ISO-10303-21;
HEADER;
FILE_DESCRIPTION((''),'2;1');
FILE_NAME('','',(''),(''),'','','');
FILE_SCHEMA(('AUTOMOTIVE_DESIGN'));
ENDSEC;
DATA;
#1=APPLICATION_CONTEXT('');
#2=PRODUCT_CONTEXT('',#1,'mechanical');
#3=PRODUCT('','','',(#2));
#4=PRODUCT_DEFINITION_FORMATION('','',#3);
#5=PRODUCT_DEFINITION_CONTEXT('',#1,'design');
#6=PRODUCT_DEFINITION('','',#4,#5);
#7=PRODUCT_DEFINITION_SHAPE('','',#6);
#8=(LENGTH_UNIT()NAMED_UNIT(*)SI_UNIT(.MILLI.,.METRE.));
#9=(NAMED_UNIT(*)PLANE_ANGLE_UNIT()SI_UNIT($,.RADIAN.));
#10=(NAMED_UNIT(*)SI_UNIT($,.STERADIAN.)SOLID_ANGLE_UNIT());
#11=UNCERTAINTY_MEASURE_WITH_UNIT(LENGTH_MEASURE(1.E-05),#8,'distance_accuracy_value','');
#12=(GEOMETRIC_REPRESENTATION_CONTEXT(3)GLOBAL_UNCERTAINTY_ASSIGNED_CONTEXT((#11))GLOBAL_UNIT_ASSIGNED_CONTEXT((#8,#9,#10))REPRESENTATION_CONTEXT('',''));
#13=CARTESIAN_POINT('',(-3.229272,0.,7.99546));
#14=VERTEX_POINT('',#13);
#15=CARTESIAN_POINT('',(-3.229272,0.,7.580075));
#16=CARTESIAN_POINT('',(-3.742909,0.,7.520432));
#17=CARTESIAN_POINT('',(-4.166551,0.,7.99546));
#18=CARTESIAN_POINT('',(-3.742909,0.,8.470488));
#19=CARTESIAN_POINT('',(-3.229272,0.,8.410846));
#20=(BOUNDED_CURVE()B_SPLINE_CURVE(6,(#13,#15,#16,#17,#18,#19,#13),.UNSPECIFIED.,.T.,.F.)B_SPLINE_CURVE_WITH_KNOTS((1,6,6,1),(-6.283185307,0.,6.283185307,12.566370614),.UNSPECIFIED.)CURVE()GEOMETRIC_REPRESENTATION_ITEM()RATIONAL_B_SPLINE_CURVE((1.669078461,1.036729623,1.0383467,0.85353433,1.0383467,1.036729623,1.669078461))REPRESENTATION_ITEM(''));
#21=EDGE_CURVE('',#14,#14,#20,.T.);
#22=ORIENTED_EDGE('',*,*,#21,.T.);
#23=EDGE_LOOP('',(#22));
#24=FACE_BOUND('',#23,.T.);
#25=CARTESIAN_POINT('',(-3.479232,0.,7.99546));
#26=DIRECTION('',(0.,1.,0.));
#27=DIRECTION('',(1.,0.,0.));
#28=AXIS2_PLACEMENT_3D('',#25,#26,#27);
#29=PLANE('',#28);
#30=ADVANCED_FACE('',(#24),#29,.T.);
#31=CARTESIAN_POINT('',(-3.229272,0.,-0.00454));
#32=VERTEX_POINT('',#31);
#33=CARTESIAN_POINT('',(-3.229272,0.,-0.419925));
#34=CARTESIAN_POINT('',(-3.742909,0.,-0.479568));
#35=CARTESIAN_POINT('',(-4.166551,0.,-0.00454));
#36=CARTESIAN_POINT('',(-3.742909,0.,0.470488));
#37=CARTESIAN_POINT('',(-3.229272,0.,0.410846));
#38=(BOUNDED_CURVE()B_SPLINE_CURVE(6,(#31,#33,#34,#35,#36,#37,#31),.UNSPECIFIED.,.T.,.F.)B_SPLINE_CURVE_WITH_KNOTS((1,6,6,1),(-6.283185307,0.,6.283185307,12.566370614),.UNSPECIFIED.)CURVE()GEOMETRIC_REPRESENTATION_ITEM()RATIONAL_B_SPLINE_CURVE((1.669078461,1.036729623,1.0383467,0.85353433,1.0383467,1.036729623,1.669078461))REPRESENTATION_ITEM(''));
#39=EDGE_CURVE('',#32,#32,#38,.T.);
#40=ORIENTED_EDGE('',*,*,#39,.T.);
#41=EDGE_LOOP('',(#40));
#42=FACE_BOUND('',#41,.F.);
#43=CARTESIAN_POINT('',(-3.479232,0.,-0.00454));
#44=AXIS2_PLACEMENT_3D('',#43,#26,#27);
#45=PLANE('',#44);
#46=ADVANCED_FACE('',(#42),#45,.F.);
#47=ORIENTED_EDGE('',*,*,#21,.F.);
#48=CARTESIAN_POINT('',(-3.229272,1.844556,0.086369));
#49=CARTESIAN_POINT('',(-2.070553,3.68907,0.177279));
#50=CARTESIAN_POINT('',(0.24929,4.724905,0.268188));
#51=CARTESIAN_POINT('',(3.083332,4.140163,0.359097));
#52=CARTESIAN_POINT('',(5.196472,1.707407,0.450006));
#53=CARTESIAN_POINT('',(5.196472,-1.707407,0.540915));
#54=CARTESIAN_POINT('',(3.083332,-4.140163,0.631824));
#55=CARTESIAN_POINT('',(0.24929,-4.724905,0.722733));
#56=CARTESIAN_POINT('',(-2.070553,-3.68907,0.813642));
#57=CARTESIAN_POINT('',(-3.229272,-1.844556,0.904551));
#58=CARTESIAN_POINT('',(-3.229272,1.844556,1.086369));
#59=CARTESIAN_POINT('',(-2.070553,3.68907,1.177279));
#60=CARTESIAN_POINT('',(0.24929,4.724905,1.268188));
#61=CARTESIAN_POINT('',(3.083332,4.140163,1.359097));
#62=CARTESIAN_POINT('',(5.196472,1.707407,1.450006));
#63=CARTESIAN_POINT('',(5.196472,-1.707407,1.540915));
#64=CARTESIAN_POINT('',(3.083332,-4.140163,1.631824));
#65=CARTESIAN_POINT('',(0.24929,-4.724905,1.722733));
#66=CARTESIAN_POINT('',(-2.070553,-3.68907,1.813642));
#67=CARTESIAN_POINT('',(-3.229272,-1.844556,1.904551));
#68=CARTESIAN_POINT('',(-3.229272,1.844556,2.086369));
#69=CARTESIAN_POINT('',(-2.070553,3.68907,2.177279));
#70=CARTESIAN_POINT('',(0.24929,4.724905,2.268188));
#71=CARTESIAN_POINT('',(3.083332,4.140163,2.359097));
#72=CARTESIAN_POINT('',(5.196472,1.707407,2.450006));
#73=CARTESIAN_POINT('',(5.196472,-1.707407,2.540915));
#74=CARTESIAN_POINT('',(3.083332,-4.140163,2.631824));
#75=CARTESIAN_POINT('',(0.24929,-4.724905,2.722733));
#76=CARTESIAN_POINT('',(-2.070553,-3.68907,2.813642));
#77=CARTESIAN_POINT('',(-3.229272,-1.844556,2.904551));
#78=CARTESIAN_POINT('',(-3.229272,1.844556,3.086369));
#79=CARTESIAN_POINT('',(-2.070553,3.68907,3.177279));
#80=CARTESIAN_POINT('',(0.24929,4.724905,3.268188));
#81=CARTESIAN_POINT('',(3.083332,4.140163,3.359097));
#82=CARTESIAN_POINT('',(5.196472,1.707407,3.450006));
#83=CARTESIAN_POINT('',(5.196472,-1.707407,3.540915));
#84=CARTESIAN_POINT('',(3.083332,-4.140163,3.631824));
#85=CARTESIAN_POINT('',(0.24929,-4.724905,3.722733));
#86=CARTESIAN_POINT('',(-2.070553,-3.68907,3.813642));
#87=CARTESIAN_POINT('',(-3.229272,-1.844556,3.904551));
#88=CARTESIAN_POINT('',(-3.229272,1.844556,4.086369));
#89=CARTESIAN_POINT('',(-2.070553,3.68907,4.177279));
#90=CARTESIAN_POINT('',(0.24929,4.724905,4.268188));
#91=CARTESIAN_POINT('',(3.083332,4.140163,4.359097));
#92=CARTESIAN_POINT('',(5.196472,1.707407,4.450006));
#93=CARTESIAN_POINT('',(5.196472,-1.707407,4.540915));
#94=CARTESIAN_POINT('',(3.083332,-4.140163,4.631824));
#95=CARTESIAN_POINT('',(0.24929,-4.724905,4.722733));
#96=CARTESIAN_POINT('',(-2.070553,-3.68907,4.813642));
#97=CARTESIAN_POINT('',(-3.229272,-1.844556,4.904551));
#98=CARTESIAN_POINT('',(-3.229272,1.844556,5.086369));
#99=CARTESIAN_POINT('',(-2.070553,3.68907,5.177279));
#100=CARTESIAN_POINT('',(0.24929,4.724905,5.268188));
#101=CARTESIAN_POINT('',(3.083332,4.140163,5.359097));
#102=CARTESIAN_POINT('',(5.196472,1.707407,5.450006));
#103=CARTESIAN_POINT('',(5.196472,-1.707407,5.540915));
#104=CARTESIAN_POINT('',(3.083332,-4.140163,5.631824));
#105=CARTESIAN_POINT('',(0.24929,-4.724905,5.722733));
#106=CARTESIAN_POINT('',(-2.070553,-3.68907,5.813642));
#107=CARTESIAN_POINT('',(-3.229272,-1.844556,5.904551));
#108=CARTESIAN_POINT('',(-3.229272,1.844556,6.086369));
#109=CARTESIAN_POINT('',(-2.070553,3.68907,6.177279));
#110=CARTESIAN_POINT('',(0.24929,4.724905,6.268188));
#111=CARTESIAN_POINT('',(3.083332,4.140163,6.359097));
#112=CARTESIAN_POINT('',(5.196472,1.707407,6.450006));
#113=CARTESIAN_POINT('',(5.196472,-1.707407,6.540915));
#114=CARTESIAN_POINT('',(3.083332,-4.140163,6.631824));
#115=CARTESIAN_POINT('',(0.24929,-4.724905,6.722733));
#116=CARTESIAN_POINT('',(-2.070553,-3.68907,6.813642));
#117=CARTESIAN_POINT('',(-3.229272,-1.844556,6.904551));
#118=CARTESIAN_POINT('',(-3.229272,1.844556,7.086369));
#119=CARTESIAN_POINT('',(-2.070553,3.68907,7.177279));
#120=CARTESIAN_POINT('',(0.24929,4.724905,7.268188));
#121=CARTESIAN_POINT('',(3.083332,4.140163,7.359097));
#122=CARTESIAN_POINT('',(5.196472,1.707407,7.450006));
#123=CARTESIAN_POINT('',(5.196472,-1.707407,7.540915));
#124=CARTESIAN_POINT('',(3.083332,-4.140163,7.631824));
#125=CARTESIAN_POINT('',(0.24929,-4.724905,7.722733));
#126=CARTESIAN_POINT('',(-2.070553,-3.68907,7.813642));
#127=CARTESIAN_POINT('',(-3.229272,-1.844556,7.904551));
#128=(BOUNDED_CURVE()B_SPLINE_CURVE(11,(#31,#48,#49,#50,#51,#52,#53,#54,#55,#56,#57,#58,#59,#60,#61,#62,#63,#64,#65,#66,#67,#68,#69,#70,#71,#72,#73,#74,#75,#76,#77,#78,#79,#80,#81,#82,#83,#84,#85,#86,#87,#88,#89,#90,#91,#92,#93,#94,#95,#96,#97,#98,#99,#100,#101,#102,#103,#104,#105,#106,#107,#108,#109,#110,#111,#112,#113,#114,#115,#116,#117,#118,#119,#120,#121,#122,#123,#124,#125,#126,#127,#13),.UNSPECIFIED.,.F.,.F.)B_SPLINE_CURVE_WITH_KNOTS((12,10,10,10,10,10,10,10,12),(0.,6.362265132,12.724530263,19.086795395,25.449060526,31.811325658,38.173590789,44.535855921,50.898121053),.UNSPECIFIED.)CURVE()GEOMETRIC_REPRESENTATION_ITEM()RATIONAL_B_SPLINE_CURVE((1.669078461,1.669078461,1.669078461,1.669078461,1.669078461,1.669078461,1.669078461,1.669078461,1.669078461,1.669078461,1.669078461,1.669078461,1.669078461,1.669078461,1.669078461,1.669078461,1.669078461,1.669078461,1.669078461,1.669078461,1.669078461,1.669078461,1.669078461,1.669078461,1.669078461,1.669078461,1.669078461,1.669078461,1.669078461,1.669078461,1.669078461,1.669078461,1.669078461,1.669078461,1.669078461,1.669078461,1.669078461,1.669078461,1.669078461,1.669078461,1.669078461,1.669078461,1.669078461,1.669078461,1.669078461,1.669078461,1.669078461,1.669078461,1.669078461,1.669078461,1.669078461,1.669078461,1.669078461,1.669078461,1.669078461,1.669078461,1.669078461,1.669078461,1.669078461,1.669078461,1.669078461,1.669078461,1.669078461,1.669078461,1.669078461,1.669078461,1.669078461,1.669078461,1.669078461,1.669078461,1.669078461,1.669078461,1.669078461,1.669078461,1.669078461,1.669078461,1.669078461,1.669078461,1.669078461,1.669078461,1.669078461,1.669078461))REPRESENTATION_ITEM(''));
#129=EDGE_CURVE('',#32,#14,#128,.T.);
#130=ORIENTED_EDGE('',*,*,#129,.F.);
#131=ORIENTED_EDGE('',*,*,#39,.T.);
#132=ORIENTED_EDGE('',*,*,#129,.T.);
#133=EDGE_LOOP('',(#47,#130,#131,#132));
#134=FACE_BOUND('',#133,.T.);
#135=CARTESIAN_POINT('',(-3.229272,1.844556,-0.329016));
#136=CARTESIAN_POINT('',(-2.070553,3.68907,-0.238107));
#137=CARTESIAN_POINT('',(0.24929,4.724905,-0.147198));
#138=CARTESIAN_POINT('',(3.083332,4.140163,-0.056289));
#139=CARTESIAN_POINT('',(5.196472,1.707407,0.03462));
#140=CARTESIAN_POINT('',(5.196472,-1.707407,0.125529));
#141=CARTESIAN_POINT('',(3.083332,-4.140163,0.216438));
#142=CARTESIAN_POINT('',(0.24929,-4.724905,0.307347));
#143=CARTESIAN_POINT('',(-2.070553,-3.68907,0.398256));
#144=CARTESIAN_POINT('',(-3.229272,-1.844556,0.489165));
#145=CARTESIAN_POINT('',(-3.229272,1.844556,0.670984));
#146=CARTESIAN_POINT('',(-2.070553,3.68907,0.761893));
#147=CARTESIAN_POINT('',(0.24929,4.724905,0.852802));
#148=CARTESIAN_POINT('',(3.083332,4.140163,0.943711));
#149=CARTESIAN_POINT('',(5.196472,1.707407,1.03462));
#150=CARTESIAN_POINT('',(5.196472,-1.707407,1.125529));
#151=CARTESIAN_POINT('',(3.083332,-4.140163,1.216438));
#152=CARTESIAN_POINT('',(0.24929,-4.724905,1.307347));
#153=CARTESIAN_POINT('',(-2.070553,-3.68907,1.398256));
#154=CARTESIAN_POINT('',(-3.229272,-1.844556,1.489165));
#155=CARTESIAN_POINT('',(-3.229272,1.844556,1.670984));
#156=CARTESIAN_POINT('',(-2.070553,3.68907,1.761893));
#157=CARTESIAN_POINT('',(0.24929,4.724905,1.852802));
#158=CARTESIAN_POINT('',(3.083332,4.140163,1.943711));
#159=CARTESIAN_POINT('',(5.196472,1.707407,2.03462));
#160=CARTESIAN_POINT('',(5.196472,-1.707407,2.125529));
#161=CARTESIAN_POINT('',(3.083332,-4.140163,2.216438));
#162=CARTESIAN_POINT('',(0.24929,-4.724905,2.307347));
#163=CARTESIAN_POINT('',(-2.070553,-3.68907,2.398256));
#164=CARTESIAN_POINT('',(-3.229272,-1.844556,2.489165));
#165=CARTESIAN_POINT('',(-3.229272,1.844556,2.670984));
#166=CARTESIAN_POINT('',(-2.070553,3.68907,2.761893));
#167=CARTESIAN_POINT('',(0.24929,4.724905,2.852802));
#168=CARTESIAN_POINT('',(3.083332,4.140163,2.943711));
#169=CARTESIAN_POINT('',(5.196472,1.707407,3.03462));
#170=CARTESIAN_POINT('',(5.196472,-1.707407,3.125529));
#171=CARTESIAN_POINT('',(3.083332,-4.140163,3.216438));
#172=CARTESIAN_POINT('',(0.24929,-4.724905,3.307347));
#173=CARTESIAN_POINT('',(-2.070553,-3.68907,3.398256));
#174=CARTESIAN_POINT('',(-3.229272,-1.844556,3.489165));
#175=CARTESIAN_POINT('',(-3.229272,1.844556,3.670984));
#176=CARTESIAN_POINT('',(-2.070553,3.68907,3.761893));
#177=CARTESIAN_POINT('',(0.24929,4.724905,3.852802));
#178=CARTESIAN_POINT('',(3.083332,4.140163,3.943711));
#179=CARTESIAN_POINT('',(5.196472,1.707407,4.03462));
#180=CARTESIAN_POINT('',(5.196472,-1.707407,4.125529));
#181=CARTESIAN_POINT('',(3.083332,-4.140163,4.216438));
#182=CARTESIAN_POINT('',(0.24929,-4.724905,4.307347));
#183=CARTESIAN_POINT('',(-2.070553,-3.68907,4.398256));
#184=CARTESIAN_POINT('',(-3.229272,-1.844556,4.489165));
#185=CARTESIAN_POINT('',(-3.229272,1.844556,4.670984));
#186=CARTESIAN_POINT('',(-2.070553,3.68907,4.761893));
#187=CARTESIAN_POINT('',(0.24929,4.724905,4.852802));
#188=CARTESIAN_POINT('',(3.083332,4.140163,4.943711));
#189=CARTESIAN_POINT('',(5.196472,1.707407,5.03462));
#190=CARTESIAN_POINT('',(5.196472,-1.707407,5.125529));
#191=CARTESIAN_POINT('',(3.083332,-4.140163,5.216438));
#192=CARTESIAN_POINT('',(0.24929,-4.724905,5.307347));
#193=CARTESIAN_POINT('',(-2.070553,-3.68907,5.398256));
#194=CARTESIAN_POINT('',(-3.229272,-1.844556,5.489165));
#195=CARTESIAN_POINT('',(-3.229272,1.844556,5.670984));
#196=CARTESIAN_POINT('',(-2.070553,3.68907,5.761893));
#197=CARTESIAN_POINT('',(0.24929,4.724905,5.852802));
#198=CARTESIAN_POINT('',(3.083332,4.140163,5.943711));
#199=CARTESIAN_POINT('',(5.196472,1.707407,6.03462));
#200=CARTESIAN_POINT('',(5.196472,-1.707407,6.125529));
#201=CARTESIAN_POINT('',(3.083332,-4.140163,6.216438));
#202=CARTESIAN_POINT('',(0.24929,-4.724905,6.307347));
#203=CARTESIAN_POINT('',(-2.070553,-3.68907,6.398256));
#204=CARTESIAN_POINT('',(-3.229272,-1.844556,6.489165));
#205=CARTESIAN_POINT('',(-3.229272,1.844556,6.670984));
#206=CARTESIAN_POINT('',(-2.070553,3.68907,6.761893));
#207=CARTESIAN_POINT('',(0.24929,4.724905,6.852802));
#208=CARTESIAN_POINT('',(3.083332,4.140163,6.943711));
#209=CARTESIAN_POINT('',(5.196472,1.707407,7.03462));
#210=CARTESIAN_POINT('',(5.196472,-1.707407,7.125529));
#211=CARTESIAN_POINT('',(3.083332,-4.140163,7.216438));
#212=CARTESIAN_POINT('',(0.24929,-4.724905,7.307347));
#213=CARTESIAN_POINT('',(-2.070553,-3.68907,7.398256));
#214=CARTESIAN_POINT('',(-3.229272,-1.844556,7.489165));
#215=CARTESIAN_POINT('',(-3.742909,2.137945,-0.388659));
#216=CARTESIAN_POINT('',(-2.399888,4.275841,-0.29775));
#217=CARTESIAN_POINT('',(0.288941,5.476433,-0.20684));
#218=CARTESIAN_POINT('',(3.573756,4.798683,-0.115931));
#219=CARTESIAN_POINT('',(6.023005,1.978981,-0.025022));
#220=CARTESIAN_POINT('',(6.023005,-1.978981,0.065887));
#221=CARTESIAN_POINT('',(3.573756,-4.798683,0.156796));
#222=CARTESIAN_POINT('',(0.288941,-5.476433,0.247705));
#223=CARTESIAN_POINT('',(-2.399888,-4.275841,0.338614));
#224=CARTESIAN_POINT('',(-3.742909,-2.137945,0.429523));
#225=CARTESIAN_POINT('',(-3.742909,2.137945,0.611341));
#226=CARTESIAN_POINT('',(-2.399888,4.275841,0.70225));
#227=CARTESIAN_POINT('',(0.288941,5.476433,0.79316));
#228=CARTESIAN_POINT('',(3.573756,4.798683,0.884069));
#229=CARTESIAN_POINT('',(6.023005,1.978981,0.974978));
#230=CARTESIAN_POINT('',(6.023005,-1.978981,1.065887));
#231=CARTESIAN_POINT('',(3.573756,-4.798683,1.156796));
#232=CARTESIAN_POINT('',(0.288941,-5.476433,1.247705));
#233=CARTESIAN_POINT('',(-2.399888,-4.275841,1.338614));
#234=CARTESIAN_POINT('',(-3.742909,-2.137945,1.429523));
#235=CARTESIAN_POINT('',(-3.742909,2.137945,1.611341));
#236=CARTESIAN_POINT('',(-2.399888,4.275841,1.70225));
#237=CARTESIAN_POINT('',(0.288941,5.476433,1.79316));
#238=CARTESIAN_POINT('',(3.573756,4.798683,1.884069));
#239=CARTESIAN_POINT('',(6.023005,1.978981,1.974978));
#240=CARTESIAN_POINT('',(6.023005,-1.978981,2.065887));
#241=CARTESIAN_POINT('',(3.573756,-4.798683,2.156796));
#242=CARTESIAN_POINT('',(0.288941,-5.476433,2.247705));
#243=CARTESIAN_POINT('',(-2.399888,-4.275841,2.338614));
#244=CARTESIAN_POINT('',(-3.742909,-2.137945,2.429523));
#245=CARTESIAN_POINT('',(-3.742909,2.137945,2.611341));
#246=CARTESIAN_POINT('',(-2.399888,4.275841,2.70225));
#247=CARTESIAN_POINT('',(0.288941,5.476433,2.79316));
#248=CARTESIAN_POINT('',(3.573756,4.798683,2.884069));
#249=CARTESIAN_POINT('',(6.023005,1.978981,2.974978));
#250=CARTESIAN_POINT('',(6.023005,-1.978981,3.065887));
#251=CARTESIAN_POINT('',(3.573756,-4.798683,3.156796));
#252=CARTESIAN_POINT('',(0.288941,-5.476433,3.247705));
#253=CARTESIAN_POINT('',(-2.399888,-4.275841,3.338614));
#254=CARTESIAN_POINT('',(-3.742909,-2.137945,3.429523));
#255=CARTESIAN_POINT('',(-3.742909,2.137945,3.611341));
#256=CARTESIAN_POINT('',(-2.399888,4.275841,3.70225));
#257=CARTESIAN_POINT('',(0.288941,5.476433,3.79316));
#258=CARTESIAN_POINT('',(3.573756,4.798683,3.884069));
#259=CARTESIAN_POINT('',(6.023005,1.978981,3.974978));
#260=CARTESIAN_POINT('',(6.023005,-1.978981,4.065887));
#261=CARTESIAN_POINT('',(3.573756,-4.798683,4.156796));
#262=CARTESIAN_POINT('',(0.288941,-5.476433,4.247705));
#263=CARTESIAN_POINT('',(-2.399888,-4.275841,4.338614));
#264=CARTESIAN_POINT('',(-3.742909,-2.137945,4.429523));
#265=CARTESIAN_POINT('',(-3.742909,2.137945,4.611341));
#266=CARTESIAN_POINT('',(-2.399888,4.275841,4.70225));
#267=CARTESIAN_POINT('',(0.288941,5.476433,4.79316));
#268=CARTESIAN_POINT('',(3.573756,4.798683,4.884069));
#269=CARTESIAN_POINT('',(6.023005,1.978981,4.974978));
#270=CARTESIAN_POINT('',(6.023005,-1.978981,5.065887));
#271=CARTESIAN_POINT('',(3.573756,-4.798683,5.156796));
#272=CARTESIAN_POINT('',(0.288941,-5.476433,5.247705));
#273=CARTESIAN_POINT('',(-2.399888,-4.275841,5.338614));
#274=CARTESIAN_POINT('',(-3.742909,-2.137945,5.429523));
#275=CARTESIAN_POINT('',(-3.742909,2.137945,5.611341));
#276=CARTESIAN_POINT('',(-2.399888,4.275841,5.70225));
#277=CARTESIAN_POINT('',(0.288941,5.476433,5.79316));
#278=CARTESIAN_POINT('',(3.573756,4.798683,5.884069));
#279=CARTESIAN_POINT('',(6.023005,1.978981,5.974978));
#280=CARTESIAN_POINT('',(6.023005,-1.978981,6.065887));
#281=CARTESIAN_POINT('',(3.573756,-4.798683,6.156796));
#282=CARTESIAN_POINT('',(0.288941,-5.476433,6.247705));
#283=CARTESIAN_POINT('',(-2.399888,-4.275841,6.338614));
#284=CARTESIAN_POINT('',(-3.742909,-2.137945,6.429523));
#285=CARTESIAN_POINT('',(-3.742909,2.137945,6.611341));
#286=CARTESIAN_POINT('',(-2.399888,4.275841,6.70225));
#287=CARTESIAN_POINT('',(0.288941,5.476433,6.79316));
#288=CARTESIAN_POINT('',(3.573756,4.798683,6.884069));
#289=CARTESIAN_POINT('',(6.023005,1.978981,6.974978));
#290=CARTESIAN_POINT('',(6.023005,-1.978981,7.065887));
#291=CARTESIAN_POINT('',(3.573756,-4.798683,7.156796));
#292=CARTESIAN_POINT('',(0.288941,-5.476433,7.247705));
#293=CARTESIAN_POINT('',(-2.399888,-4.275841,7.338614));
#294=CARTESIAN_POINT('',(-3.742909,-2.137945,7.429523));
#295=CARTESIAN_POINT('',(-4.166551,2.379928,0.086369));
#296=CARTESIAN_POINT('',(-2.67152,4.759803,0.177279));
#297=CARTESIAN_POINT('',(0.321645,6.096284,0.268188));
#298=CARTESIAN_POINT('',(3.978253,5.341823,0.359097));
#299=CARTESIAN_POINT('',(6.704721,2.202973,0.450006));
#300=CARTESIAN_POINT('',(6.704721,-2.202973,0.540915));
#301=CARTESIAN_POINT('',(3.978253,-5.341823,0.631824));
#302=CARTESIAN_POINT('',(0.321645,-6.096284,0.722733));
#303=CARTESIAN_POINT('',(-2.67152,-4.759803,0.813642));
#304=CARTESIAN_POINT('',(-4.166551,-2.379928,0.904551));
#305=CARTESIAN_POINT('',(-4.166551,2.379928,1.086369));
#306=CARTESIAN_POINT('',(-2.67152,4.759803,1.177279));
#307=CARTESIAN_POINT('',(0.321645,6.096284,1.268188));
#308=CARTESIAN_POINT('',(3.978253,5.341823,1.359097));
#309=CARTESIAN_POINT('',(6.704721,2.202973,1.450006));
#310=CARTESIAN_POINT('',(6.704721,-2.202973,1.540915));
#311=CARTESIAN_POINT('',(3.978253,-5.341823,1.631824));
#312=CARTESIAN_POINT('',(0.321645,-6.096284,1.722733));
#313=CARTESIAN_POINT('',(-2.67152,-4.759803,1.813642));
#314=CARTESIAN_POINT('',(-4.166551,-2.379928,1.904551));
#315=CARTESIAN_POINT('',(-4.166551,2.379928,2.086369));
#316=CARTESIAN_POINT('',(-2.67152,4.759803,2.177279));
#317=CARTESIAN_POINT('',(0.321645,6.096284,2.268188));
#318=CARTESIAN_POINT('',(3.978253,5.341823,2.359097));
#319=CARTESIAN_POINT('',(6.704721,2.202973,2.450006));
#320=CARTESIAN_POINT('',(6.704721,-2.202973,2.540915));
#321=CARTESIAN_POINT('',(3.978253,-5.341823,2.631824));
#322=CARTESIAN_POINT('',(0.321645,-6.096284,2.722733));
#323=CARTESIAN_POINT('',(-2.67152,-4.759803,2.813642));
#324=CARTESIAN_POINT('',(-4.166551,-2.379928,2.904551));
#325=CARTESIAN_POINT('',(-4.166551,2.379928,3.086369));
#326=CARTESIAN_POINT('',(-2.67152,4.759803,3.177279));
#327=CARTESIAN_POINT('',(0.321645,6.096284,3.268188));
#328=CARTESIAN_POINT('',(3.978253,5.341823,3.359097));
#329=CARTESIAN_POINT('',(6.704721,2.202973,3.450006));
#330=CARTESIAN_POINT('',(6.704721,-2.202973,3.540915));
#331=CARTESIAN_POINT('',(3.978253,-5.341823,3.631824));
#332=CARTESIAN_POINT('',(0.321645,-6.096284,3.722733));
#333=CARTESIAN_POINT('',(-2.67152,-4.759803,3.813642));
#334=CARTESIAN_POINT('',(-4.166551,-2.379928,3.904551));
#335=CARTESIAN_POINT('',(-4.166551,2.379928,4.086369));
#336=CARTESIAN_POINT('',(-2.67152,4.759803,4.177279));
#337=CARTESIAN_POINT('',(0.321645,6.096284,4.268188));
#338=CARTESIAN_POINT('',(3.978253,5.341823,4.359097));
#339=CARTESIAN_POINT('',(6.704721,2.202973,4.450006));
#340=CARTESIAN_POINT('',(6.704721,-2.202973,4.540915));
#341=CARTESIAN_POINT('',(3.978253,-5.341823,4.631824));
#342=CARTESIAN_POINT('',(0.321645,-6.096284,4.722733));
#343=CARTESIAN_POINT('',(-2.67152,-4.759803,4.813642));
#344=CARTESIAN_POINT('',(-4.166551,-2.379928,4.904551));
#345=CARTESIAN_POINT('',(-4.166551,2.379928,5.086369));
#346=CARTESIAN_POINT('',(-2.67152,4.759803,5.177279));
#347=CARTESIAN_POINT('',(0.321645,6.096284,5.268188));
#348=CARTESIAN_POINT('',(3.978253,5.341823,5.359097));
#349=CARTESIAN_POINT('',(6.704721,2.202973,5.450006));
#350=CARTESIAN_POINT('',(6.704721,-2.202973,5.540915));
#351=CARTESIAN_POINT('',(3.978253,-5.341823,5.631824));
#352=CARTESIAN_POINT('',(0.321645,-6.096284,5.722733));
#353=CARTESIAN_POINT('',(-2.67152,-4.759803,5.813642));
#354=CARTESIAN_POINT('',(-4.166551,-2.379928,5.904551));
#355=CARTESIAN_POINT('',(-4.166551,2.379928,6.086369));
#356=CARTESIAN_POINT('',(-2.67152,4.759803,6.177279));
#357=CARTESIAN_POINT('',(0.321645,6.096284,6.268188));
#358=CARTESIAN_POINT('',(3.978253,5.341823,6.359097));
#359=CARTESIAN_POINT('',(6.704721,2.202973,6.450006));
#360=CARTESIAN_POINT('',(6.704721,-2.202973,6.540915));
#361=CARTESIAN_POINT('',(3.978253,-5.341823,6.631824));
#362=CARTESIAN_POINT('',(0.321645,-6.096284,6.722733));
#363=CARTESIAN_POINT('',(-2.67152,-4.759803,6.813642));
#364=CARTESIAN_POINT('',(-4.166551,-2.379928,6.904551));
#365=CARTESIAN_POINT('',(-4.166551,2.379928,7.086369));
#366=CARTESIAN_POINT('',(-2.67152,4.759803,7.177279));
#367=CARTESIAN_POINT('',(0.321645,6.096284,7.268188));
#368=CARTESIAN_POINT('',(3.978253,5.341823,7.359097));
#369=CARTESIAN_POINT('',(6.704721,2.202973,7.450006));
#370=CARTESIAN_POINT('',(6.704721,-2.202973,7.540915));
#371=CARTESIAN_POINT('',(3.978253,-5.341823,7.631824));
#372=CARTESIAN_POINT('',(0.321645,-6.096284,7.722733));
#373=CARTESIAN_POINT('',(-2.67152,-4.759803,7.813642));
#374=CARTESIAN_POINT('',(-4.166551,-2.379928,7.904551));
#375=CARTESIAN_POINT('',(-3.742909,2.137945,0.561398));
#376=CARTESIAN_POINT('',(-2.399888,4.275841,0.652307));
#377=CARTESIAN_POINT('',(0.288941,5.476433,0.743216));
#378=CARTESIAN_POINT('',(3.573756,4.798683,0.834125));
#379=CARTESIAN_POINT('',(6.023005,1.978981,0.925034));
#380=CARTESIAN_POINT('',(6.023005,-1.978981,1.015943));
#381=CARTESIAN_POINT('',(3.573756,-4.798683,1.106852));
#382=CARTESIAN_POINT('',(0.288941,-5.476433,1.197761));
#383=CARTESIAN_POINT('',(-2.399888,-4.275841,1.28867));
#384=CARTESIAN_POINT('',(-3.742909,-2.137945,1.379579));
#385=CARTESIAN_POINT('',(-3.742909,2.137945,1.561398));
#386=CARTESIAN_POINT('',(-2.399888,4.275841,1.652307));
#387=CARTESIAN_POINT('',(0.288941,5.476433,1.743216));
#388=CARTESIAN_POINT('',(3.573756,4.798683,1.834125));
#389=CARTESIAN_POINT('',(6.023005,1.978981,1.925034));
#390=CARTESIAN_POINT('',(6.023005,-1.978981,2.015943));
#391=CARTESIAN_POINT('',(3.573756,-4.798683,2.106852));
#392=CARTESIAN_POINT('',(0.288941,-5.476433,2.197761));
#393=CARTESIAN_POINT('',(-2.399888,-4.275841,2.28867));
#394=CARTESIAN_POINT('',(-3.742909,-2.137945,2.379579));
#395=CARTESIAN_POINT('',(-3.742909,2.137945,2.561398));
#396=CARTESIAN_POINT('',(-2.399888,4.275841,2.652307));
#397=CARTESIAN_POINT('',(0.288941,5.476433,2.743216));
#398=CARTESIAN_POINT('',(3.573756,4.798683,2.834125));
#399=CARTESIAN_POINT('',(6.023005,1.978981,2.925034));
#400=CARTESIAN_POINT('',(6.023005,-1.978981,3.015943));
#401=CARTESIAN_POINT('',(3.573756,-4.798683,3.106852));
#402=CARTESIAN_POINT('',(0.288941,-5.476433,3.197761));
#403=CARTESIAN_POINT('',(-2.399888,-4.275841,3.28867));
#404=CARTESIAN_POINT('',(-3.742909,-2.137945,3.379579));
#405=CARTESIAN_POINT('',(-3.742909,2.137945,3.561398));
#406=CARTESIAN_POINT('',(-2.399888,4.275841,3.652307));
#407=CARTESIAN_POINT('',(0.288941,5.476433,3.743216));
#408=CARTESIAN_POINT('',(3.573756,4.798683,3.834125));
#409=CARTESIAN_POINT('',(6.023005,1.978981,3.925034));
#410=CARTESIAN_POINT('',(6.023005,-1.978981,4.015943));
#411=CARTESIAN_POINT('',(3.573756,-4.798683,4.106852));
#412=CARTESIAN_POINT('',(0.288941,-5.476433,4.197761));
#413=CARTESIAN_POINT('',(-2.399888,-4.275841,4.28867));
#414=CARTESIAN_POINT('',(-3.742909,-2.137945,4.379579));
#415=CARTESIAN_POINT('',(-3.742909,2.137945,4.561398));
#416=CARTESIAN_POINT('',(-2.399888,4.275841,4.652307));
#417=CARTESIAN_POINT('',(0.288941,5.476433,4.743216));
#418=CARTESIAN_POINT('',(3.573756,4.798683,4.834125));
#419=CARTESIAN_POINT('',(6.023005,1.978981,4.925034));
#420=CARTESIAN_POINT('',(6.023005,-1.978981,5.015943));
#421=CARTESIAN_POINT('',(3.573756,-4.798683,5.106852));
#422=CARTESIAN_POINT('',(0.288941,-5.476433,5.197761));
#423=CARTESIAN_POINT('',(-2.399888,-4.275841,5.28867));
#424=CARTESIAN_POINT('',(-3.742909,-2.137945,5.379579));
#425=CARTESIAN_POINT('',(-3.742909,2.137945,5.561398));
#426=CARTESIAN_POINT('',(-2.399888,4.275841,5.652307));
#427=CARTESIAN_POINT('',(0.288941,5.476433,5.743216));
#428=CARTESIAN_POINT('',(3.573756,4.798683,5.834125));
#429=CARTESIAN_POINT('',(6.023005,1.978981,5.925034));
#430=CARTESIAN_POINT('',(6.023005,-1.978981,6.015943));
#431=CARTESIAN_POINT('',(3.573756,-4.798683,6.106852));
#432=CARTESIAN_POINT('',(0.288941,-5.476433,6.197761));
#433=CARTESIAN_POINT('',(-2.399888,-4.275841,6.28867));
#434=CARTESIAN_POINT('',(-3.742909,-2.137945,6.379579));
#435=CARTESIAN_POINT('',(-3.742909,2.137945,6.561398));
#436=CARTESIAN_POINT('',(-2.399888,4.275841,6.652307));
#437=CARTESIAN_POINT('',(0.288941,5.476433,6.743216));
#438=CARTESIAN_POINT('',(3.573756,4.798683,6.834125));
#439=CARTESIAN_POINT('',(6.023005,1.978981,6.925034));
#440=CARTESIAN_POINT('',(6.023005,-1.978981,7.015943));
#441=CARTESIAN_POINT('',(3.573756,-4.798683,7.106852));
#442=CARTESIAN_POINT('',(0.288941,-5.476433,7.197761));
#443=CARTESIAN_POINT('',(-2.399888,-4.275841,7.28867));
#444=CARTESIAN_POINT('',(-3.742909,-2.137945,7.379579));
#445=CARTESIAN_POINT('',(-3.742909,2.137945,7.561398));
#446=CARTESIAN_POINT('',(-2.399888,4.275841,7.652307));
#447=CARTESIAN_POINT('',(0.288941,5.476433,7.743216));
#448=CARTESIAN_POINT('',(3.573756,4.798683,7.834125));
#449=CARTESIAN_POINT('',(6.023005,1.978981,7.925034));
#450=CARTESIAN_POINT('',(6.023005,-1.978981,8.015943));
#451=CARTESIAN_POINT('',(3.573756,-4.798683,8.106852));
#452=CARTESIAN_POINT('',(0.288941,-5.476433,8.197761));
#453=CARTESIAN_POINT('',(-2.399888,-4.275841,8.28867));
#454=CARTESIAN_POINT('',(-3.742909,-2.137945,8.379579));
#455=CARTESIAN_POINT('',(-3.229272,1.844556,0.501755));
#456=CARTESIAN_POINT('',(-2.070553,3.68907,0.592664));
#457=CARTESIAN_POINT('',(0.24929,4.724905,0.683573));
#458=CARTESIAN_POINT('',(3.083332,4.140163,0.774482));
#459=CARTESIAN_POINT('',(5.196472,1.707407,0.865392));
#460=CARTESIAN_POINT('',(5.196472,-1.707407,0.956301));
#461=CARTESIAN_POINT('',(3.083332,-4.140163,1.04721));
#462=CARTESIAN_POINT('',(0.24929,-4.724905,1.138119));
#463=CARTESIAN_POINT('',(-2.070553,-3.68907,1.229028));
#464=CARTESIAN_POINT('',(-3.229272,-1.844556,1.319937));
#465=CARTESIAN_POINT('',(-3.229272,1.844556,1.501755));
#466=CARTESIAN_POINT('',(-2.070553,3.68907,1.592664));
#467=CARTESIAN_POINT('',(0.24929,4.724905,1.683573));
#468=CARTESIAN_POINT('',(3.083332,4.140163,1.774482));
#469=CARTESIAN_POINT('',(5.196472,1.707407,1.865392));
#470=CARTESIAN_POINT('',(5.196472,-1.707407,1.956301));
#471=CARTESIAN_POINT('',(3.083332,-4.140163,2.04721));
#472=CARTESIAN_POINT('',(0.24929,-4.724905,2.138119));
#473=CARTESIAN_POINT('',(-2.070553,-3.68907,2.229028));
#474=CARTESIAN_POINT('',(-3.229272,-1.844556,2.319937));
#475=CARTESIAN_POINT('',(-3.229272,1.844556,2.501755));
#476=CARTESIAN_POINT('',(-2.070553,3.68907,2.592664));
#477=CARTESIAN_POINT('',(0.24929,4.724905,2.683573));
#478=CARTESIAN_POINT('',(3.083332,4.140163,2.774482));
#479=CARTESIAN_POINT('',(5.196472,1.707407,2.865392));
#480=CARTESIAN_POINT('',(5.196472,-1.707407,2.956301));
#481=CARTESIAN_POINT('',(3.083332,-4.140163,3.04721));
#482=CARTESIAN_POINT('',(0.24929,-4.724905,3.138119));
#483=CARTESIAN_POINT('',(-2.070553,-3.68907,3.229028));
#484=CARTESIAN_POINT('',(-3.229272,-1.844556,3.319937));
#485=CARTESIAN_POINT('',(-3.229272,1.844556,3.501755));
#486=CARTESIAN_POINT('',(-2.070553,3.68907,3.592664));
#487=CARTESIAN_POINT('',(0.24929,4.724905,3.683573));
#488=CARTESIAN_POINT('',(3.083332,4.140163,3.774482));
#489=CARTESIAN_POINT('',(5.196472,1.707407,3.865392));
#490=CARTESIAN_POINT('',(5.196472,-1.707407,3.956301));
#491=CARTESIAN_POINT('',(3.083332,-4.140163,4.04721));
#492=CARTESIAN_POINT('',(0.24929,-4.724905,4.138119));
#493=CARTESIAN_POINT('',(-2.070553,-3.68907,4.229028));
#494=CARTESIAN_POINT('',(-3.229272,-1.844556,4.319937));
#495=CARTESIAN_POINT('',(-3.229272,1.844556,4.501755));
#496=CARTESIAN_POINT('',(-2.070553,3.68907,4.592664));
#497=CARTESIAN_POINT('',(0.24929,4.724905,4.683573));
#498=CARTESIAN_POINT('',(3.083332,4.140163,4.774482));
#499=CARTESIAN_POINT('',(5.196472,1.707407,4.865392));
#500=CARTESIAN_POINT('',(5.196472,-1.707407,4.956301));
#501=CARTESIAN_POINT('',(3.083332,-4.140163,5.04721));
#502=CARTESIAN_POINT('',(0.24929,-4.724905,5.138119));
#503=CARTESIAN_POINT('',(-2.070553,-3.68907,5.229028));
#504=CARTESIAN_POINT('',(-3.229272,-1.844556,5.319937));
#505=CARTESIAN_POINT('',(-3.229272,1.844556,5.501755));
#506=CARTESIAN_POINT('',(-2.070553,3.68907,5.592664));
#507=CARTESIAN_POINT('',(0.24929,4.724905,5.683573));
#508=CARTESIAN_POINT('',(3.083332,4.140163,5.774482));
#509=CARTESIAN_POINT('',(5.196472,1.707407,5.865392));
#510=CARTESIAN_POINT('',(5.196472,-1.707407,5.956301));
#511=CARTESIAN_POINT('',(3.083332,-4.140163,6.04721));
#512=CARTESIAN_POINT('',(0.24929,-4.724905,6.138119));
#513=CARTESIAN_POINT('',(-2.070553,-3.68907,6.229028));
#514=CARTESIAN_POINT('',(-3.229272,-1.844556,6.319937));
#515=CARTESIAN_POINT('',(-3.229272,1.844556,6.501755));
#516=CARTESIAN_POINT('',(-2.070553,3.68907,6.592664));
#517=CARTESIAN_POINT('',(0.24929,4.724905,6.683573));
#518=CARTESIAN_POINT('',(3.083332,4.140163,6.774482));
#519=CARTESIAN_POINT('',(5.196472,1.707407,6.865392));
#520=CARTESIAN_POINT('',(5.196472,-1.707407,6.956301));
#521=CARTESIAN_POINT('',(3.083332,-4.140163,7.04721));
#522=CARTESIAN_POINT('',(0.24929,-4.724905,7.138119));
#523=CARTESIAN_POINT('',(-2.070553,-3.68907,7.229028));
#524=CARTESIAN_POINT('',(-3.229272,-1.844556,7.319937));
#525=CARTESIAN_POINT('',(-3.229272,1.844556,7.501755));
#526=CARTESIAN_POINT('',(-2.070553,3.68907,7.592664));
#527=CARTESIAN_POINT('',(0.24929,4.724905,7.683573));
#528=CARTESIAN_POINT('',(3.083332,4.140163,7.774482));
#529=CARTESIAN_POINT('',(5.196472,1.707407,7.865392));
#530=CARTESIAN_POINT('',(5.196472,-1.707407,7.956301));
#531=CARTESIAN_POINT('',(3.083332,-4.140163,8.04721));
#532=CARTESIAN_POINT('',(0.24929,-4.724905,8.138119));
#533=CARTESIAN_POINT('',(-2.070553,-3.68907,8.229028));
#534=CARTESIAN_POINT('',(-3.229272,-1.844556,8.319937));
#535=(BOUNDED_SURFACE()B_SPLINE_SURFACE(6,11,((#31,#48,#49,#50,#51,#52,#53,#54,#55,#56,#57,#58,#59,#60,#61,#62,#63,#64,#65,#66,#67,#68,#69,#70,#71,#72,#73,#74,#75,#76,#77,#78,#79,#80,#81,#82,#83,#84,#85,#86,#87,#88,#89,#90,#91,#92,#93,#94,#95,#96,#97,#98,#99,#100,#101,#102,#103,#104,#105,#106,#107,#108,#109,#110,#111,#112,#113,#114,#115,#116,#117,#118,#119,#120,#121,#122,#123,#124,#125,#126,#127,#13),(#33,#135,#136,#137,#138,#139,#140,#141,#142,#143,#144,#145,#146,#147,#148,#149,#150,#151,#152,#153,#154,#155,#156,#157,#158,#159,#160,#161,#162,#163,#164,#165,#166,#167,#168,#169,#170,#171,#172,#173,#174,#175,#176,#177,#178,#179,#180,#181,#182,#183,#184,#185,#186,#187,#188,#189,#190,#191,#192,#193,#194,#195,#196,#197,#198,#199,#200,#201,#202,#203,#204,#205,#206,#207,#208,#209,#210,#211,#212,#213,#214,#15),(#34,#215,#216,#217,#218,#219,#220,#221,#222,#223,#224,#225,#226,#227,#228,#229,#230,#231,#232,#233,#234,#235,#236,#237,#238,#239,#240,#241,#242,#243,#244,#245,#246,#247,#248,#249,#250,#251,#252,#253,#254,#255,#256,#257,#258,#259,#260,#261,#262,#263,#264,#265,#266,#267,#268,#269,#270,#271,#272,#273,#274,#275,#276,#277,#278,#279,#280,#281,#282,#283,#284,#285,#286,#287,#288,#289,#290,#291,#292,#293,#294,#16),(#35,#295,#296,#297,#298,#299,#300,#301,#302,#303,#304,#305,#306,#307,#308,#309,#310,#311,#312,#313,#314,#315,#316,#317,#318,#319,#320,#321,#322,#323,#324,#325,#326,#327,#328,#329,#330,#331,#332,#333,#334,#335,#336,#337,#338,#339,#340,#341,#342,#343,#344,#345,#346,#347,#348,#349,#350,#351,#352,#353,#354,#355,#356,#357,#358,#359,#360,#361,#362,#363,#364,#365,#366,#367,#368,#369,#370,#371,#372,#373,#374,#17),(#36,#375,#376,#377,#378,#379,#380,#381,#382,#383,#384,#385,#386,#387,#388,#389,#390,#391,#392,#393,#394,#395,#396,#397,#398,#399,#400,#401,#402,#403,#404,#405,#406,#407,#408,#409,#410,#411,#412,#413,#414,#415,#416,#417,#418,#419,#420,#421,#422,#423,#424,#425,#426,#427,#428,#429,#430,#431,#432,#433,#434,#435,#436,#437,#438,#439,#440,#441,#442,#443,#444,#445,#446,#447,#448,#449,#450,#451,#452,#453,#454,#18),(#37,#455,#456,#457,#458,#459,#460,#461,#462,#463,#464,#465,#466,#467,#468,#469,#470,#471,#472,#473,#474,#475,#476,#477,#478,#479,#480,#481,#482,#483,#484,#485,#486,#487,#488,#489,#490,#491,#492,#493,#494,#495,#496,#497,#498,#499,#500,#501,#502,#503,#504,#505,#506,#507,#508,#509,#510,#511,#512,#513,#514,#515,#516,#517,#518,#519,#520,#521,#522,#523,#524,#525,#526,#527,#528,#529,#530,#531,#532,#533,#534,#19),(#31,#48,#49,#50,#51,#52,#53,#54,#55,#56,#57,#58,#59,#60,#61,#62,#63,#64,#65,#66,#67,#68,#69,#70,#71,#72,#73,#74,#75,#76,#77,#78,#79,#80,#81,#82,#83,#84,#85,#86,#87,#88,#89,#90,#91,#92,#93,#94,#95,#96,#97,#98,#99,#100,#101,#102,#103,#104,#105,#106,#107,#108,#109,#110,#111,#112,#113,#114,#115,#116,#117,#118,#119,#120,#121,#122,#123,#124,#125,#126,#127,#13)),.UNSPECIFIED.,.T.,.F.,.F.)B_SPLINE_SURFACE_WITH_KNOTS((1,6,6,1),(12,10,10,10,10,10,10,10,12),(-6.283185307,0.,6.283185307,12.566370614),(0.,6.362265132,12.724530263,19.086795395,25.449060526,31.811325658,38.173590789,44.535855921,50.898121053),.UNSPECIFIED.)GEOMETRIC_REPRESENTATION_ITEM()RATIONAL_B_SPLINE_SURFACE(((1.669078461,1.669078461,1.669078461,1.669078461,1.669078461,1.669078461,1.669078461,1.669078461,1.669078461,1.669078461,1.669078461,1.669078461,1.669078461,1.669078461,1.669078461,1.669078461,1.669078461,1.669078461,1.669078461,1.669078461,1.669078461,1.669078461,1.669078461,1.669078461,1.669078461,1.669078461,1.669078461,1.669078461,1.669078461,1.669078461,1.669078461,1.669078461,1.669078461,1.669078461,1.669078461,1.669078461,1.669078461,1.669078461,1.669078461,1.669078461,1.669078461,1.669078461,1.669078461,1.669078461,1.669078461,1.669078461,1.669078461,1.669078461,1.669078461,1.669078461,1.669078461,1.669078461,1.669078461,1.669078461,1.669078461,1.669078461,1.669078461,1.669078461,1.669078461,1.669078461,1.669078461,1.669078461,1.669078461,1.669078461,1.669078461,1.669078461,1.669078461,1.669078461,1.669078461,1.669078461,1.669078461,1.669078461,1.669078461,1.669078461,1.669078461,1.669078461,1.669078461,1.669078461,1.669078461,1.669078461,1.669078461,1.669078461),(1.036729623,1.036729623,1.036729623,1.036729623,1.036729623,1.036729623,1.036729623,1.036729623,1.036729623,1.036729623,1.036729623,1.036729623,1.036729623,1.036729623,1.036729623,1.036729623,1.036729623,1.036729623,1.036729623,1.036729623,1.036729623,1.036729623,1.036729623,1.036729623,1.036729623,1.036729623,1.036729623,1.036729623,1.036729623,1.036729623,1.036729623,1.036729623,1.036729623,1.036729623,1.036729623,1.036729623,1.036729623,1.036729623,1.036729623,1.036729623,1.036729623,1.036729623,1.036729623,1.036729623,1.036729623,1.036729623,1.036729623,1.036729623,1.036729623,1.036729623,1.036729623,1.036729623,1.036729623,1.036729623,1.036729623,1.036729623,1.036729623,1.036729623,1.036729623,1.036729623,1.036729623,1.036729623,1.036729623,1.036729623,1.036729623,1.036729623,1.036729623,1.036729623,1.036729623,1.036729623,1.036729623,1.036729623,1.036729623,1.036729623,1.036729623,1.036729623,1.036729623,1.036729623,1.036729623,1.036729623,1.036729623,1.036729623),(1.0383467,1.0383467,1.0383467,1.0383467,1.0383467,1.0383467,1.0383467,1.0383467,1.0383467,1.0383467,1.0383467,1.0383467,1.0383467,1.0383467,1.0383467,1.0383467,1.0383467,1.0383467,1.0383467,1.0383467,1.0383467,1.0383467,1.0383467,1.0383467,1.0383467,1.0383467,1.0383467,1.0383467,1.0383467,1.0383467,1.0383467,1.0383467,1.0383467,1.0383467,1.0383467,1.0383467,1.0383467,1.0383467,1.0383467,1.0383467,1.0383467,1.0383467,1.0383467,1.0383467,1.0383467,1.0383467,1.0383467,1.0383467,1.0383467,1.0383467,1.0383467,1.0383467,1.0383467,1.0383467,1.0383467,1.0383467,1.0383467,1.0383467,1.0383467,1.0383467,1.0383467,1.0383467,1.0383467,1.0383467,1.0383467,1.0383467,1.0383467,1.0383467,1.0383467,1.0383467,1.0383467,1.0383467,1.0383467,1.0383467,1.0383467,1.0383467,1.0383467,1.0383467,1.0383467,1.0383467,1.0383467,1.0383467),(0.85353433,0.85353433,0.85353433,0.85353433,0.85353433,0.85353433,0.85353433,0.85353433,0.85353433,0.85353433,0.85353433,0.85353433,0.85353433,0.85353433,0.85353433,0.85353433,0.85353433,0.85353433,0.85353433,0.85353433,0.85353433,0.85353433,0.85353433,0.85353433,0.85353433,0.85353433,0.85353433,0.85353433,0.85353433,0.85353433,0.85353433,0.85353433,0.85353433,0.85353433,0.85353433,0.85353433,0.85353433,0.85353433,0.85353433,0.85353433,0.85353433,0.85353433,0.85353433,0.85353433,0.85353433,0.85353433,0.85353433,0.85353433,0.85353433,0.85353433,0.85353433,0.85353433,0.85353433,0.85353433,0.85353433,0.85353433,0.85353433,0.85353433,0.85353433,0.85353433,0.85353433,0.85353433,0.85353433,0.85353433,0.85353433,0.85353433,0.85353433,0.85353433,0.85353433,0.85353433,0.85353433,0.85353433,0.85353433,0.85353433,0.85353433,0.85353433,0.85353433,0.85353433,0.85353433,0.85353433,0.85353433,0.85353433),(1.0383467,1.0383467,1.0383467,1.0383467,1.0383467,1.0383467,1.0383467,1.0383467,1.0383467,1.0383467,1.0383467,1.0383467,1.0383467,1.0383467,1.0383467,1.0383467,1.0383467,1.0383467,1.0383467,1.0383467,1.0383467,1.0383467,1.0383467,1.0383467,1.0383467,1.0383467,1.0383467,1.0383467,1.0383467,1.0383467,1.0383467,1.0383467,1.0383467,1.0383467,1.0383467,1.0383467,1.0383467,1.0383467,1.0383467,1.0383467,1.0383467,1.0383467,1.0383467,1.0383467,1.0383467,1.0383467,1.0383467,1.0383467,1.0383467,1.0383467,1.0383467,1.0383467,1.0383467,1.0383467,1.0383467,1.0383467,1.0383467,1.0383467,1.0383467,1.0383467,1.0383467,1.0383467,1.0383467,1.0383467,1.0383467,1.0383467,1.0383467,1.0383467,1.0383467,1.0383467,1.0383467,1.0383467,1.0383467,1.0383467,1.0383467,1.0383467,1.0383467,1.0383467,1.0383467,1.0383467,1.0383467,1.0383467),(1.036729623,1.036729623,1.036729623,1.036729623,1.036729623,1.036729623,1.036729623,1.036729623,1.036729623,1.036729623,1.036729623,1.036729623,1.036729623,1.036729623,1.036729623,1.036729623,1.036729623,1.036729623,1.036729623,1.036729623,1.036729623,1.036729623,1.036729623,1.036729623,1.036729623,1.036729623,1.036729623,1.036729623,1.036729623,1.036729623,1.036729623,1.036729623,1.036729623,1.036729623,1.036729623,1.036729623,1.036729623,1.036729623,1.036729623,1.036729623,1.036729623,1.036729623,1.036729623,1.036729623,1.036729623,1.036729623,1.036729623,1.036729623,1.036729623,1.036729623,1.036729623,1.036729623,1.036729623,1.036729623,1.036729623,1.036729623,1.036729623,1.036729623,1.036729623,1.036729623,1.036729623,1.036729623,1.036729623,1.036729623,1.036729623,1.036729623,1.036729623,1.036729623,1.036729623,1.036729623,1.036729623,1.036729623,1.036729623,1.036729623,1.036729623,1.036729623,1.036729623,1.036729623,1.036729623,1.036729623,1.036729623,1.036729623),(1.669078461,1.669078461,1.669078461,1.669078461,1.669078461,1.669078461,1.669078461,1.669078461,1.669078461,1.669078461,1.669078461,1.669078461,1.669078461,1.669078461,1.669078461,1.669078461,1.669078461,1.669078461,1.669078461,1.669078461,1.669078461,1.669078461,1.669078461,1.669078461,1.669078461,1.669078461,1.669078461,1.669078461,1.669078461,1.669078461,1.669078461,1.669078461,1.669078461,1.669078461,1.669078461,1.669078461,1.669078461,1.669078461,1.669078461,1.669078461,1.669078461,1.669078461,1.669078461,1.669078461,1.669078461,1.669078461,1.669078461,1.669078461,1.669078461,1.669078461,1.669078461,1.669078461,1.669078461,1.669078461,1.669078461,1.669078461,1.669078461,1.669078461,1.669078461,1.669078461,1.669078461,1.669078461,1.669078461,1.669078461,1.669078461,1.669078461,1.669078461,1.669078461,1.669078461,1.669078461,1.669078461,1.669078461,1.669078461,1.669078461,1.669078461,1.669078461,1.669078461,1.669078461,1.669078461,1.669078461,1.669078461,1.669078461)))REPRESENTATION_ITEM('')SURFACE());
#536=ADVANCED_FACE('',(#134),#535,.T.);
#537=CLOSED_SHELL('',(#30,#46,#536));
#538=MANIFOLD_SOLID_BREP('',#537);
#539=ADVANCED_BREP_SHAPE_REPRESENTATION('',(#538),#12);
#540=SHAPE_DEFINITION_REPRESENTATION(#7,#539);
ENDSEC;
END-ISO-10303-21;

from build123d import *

# Parameters (mm, degrees)
SWEEP1_PITCH       = 1
SWEEP1_HEIGHT      = 8
SWEEP1_RADIUS      = 3
SWEEP1_START_ANGLE = -180
SKETCH2_R          = 0.25


with BuildPart() as part:
    # Sweep1: sweep along a helix
    with BuildLine() as sweep1_path:
        add(Helix(SWEEP1_PITCH, SWEEP1_HEIGHT, SWEEP1_RADIUS, center=(0, 0, 0), direction=(0, 0, 1), lefthand=True, mode=Mode.PRIVATE).rotate(Axis((0, 0, 0), (0, 0, 1)), SWEEP1_START_ANGLE))
    # Sketch2 → Sweep1 (sweep)
    with BuildSketch(Plane(origin=(0, 0, 0), x_dir=(1, 0, 0), z_dir=(0, 1, 0))):
        with Locations((-3.479271877, -7.995460357)):
            Circle(SKETCH2_R)
    sweep(path=sweep1_path.line, is_frenet=True)


solid = part.part
